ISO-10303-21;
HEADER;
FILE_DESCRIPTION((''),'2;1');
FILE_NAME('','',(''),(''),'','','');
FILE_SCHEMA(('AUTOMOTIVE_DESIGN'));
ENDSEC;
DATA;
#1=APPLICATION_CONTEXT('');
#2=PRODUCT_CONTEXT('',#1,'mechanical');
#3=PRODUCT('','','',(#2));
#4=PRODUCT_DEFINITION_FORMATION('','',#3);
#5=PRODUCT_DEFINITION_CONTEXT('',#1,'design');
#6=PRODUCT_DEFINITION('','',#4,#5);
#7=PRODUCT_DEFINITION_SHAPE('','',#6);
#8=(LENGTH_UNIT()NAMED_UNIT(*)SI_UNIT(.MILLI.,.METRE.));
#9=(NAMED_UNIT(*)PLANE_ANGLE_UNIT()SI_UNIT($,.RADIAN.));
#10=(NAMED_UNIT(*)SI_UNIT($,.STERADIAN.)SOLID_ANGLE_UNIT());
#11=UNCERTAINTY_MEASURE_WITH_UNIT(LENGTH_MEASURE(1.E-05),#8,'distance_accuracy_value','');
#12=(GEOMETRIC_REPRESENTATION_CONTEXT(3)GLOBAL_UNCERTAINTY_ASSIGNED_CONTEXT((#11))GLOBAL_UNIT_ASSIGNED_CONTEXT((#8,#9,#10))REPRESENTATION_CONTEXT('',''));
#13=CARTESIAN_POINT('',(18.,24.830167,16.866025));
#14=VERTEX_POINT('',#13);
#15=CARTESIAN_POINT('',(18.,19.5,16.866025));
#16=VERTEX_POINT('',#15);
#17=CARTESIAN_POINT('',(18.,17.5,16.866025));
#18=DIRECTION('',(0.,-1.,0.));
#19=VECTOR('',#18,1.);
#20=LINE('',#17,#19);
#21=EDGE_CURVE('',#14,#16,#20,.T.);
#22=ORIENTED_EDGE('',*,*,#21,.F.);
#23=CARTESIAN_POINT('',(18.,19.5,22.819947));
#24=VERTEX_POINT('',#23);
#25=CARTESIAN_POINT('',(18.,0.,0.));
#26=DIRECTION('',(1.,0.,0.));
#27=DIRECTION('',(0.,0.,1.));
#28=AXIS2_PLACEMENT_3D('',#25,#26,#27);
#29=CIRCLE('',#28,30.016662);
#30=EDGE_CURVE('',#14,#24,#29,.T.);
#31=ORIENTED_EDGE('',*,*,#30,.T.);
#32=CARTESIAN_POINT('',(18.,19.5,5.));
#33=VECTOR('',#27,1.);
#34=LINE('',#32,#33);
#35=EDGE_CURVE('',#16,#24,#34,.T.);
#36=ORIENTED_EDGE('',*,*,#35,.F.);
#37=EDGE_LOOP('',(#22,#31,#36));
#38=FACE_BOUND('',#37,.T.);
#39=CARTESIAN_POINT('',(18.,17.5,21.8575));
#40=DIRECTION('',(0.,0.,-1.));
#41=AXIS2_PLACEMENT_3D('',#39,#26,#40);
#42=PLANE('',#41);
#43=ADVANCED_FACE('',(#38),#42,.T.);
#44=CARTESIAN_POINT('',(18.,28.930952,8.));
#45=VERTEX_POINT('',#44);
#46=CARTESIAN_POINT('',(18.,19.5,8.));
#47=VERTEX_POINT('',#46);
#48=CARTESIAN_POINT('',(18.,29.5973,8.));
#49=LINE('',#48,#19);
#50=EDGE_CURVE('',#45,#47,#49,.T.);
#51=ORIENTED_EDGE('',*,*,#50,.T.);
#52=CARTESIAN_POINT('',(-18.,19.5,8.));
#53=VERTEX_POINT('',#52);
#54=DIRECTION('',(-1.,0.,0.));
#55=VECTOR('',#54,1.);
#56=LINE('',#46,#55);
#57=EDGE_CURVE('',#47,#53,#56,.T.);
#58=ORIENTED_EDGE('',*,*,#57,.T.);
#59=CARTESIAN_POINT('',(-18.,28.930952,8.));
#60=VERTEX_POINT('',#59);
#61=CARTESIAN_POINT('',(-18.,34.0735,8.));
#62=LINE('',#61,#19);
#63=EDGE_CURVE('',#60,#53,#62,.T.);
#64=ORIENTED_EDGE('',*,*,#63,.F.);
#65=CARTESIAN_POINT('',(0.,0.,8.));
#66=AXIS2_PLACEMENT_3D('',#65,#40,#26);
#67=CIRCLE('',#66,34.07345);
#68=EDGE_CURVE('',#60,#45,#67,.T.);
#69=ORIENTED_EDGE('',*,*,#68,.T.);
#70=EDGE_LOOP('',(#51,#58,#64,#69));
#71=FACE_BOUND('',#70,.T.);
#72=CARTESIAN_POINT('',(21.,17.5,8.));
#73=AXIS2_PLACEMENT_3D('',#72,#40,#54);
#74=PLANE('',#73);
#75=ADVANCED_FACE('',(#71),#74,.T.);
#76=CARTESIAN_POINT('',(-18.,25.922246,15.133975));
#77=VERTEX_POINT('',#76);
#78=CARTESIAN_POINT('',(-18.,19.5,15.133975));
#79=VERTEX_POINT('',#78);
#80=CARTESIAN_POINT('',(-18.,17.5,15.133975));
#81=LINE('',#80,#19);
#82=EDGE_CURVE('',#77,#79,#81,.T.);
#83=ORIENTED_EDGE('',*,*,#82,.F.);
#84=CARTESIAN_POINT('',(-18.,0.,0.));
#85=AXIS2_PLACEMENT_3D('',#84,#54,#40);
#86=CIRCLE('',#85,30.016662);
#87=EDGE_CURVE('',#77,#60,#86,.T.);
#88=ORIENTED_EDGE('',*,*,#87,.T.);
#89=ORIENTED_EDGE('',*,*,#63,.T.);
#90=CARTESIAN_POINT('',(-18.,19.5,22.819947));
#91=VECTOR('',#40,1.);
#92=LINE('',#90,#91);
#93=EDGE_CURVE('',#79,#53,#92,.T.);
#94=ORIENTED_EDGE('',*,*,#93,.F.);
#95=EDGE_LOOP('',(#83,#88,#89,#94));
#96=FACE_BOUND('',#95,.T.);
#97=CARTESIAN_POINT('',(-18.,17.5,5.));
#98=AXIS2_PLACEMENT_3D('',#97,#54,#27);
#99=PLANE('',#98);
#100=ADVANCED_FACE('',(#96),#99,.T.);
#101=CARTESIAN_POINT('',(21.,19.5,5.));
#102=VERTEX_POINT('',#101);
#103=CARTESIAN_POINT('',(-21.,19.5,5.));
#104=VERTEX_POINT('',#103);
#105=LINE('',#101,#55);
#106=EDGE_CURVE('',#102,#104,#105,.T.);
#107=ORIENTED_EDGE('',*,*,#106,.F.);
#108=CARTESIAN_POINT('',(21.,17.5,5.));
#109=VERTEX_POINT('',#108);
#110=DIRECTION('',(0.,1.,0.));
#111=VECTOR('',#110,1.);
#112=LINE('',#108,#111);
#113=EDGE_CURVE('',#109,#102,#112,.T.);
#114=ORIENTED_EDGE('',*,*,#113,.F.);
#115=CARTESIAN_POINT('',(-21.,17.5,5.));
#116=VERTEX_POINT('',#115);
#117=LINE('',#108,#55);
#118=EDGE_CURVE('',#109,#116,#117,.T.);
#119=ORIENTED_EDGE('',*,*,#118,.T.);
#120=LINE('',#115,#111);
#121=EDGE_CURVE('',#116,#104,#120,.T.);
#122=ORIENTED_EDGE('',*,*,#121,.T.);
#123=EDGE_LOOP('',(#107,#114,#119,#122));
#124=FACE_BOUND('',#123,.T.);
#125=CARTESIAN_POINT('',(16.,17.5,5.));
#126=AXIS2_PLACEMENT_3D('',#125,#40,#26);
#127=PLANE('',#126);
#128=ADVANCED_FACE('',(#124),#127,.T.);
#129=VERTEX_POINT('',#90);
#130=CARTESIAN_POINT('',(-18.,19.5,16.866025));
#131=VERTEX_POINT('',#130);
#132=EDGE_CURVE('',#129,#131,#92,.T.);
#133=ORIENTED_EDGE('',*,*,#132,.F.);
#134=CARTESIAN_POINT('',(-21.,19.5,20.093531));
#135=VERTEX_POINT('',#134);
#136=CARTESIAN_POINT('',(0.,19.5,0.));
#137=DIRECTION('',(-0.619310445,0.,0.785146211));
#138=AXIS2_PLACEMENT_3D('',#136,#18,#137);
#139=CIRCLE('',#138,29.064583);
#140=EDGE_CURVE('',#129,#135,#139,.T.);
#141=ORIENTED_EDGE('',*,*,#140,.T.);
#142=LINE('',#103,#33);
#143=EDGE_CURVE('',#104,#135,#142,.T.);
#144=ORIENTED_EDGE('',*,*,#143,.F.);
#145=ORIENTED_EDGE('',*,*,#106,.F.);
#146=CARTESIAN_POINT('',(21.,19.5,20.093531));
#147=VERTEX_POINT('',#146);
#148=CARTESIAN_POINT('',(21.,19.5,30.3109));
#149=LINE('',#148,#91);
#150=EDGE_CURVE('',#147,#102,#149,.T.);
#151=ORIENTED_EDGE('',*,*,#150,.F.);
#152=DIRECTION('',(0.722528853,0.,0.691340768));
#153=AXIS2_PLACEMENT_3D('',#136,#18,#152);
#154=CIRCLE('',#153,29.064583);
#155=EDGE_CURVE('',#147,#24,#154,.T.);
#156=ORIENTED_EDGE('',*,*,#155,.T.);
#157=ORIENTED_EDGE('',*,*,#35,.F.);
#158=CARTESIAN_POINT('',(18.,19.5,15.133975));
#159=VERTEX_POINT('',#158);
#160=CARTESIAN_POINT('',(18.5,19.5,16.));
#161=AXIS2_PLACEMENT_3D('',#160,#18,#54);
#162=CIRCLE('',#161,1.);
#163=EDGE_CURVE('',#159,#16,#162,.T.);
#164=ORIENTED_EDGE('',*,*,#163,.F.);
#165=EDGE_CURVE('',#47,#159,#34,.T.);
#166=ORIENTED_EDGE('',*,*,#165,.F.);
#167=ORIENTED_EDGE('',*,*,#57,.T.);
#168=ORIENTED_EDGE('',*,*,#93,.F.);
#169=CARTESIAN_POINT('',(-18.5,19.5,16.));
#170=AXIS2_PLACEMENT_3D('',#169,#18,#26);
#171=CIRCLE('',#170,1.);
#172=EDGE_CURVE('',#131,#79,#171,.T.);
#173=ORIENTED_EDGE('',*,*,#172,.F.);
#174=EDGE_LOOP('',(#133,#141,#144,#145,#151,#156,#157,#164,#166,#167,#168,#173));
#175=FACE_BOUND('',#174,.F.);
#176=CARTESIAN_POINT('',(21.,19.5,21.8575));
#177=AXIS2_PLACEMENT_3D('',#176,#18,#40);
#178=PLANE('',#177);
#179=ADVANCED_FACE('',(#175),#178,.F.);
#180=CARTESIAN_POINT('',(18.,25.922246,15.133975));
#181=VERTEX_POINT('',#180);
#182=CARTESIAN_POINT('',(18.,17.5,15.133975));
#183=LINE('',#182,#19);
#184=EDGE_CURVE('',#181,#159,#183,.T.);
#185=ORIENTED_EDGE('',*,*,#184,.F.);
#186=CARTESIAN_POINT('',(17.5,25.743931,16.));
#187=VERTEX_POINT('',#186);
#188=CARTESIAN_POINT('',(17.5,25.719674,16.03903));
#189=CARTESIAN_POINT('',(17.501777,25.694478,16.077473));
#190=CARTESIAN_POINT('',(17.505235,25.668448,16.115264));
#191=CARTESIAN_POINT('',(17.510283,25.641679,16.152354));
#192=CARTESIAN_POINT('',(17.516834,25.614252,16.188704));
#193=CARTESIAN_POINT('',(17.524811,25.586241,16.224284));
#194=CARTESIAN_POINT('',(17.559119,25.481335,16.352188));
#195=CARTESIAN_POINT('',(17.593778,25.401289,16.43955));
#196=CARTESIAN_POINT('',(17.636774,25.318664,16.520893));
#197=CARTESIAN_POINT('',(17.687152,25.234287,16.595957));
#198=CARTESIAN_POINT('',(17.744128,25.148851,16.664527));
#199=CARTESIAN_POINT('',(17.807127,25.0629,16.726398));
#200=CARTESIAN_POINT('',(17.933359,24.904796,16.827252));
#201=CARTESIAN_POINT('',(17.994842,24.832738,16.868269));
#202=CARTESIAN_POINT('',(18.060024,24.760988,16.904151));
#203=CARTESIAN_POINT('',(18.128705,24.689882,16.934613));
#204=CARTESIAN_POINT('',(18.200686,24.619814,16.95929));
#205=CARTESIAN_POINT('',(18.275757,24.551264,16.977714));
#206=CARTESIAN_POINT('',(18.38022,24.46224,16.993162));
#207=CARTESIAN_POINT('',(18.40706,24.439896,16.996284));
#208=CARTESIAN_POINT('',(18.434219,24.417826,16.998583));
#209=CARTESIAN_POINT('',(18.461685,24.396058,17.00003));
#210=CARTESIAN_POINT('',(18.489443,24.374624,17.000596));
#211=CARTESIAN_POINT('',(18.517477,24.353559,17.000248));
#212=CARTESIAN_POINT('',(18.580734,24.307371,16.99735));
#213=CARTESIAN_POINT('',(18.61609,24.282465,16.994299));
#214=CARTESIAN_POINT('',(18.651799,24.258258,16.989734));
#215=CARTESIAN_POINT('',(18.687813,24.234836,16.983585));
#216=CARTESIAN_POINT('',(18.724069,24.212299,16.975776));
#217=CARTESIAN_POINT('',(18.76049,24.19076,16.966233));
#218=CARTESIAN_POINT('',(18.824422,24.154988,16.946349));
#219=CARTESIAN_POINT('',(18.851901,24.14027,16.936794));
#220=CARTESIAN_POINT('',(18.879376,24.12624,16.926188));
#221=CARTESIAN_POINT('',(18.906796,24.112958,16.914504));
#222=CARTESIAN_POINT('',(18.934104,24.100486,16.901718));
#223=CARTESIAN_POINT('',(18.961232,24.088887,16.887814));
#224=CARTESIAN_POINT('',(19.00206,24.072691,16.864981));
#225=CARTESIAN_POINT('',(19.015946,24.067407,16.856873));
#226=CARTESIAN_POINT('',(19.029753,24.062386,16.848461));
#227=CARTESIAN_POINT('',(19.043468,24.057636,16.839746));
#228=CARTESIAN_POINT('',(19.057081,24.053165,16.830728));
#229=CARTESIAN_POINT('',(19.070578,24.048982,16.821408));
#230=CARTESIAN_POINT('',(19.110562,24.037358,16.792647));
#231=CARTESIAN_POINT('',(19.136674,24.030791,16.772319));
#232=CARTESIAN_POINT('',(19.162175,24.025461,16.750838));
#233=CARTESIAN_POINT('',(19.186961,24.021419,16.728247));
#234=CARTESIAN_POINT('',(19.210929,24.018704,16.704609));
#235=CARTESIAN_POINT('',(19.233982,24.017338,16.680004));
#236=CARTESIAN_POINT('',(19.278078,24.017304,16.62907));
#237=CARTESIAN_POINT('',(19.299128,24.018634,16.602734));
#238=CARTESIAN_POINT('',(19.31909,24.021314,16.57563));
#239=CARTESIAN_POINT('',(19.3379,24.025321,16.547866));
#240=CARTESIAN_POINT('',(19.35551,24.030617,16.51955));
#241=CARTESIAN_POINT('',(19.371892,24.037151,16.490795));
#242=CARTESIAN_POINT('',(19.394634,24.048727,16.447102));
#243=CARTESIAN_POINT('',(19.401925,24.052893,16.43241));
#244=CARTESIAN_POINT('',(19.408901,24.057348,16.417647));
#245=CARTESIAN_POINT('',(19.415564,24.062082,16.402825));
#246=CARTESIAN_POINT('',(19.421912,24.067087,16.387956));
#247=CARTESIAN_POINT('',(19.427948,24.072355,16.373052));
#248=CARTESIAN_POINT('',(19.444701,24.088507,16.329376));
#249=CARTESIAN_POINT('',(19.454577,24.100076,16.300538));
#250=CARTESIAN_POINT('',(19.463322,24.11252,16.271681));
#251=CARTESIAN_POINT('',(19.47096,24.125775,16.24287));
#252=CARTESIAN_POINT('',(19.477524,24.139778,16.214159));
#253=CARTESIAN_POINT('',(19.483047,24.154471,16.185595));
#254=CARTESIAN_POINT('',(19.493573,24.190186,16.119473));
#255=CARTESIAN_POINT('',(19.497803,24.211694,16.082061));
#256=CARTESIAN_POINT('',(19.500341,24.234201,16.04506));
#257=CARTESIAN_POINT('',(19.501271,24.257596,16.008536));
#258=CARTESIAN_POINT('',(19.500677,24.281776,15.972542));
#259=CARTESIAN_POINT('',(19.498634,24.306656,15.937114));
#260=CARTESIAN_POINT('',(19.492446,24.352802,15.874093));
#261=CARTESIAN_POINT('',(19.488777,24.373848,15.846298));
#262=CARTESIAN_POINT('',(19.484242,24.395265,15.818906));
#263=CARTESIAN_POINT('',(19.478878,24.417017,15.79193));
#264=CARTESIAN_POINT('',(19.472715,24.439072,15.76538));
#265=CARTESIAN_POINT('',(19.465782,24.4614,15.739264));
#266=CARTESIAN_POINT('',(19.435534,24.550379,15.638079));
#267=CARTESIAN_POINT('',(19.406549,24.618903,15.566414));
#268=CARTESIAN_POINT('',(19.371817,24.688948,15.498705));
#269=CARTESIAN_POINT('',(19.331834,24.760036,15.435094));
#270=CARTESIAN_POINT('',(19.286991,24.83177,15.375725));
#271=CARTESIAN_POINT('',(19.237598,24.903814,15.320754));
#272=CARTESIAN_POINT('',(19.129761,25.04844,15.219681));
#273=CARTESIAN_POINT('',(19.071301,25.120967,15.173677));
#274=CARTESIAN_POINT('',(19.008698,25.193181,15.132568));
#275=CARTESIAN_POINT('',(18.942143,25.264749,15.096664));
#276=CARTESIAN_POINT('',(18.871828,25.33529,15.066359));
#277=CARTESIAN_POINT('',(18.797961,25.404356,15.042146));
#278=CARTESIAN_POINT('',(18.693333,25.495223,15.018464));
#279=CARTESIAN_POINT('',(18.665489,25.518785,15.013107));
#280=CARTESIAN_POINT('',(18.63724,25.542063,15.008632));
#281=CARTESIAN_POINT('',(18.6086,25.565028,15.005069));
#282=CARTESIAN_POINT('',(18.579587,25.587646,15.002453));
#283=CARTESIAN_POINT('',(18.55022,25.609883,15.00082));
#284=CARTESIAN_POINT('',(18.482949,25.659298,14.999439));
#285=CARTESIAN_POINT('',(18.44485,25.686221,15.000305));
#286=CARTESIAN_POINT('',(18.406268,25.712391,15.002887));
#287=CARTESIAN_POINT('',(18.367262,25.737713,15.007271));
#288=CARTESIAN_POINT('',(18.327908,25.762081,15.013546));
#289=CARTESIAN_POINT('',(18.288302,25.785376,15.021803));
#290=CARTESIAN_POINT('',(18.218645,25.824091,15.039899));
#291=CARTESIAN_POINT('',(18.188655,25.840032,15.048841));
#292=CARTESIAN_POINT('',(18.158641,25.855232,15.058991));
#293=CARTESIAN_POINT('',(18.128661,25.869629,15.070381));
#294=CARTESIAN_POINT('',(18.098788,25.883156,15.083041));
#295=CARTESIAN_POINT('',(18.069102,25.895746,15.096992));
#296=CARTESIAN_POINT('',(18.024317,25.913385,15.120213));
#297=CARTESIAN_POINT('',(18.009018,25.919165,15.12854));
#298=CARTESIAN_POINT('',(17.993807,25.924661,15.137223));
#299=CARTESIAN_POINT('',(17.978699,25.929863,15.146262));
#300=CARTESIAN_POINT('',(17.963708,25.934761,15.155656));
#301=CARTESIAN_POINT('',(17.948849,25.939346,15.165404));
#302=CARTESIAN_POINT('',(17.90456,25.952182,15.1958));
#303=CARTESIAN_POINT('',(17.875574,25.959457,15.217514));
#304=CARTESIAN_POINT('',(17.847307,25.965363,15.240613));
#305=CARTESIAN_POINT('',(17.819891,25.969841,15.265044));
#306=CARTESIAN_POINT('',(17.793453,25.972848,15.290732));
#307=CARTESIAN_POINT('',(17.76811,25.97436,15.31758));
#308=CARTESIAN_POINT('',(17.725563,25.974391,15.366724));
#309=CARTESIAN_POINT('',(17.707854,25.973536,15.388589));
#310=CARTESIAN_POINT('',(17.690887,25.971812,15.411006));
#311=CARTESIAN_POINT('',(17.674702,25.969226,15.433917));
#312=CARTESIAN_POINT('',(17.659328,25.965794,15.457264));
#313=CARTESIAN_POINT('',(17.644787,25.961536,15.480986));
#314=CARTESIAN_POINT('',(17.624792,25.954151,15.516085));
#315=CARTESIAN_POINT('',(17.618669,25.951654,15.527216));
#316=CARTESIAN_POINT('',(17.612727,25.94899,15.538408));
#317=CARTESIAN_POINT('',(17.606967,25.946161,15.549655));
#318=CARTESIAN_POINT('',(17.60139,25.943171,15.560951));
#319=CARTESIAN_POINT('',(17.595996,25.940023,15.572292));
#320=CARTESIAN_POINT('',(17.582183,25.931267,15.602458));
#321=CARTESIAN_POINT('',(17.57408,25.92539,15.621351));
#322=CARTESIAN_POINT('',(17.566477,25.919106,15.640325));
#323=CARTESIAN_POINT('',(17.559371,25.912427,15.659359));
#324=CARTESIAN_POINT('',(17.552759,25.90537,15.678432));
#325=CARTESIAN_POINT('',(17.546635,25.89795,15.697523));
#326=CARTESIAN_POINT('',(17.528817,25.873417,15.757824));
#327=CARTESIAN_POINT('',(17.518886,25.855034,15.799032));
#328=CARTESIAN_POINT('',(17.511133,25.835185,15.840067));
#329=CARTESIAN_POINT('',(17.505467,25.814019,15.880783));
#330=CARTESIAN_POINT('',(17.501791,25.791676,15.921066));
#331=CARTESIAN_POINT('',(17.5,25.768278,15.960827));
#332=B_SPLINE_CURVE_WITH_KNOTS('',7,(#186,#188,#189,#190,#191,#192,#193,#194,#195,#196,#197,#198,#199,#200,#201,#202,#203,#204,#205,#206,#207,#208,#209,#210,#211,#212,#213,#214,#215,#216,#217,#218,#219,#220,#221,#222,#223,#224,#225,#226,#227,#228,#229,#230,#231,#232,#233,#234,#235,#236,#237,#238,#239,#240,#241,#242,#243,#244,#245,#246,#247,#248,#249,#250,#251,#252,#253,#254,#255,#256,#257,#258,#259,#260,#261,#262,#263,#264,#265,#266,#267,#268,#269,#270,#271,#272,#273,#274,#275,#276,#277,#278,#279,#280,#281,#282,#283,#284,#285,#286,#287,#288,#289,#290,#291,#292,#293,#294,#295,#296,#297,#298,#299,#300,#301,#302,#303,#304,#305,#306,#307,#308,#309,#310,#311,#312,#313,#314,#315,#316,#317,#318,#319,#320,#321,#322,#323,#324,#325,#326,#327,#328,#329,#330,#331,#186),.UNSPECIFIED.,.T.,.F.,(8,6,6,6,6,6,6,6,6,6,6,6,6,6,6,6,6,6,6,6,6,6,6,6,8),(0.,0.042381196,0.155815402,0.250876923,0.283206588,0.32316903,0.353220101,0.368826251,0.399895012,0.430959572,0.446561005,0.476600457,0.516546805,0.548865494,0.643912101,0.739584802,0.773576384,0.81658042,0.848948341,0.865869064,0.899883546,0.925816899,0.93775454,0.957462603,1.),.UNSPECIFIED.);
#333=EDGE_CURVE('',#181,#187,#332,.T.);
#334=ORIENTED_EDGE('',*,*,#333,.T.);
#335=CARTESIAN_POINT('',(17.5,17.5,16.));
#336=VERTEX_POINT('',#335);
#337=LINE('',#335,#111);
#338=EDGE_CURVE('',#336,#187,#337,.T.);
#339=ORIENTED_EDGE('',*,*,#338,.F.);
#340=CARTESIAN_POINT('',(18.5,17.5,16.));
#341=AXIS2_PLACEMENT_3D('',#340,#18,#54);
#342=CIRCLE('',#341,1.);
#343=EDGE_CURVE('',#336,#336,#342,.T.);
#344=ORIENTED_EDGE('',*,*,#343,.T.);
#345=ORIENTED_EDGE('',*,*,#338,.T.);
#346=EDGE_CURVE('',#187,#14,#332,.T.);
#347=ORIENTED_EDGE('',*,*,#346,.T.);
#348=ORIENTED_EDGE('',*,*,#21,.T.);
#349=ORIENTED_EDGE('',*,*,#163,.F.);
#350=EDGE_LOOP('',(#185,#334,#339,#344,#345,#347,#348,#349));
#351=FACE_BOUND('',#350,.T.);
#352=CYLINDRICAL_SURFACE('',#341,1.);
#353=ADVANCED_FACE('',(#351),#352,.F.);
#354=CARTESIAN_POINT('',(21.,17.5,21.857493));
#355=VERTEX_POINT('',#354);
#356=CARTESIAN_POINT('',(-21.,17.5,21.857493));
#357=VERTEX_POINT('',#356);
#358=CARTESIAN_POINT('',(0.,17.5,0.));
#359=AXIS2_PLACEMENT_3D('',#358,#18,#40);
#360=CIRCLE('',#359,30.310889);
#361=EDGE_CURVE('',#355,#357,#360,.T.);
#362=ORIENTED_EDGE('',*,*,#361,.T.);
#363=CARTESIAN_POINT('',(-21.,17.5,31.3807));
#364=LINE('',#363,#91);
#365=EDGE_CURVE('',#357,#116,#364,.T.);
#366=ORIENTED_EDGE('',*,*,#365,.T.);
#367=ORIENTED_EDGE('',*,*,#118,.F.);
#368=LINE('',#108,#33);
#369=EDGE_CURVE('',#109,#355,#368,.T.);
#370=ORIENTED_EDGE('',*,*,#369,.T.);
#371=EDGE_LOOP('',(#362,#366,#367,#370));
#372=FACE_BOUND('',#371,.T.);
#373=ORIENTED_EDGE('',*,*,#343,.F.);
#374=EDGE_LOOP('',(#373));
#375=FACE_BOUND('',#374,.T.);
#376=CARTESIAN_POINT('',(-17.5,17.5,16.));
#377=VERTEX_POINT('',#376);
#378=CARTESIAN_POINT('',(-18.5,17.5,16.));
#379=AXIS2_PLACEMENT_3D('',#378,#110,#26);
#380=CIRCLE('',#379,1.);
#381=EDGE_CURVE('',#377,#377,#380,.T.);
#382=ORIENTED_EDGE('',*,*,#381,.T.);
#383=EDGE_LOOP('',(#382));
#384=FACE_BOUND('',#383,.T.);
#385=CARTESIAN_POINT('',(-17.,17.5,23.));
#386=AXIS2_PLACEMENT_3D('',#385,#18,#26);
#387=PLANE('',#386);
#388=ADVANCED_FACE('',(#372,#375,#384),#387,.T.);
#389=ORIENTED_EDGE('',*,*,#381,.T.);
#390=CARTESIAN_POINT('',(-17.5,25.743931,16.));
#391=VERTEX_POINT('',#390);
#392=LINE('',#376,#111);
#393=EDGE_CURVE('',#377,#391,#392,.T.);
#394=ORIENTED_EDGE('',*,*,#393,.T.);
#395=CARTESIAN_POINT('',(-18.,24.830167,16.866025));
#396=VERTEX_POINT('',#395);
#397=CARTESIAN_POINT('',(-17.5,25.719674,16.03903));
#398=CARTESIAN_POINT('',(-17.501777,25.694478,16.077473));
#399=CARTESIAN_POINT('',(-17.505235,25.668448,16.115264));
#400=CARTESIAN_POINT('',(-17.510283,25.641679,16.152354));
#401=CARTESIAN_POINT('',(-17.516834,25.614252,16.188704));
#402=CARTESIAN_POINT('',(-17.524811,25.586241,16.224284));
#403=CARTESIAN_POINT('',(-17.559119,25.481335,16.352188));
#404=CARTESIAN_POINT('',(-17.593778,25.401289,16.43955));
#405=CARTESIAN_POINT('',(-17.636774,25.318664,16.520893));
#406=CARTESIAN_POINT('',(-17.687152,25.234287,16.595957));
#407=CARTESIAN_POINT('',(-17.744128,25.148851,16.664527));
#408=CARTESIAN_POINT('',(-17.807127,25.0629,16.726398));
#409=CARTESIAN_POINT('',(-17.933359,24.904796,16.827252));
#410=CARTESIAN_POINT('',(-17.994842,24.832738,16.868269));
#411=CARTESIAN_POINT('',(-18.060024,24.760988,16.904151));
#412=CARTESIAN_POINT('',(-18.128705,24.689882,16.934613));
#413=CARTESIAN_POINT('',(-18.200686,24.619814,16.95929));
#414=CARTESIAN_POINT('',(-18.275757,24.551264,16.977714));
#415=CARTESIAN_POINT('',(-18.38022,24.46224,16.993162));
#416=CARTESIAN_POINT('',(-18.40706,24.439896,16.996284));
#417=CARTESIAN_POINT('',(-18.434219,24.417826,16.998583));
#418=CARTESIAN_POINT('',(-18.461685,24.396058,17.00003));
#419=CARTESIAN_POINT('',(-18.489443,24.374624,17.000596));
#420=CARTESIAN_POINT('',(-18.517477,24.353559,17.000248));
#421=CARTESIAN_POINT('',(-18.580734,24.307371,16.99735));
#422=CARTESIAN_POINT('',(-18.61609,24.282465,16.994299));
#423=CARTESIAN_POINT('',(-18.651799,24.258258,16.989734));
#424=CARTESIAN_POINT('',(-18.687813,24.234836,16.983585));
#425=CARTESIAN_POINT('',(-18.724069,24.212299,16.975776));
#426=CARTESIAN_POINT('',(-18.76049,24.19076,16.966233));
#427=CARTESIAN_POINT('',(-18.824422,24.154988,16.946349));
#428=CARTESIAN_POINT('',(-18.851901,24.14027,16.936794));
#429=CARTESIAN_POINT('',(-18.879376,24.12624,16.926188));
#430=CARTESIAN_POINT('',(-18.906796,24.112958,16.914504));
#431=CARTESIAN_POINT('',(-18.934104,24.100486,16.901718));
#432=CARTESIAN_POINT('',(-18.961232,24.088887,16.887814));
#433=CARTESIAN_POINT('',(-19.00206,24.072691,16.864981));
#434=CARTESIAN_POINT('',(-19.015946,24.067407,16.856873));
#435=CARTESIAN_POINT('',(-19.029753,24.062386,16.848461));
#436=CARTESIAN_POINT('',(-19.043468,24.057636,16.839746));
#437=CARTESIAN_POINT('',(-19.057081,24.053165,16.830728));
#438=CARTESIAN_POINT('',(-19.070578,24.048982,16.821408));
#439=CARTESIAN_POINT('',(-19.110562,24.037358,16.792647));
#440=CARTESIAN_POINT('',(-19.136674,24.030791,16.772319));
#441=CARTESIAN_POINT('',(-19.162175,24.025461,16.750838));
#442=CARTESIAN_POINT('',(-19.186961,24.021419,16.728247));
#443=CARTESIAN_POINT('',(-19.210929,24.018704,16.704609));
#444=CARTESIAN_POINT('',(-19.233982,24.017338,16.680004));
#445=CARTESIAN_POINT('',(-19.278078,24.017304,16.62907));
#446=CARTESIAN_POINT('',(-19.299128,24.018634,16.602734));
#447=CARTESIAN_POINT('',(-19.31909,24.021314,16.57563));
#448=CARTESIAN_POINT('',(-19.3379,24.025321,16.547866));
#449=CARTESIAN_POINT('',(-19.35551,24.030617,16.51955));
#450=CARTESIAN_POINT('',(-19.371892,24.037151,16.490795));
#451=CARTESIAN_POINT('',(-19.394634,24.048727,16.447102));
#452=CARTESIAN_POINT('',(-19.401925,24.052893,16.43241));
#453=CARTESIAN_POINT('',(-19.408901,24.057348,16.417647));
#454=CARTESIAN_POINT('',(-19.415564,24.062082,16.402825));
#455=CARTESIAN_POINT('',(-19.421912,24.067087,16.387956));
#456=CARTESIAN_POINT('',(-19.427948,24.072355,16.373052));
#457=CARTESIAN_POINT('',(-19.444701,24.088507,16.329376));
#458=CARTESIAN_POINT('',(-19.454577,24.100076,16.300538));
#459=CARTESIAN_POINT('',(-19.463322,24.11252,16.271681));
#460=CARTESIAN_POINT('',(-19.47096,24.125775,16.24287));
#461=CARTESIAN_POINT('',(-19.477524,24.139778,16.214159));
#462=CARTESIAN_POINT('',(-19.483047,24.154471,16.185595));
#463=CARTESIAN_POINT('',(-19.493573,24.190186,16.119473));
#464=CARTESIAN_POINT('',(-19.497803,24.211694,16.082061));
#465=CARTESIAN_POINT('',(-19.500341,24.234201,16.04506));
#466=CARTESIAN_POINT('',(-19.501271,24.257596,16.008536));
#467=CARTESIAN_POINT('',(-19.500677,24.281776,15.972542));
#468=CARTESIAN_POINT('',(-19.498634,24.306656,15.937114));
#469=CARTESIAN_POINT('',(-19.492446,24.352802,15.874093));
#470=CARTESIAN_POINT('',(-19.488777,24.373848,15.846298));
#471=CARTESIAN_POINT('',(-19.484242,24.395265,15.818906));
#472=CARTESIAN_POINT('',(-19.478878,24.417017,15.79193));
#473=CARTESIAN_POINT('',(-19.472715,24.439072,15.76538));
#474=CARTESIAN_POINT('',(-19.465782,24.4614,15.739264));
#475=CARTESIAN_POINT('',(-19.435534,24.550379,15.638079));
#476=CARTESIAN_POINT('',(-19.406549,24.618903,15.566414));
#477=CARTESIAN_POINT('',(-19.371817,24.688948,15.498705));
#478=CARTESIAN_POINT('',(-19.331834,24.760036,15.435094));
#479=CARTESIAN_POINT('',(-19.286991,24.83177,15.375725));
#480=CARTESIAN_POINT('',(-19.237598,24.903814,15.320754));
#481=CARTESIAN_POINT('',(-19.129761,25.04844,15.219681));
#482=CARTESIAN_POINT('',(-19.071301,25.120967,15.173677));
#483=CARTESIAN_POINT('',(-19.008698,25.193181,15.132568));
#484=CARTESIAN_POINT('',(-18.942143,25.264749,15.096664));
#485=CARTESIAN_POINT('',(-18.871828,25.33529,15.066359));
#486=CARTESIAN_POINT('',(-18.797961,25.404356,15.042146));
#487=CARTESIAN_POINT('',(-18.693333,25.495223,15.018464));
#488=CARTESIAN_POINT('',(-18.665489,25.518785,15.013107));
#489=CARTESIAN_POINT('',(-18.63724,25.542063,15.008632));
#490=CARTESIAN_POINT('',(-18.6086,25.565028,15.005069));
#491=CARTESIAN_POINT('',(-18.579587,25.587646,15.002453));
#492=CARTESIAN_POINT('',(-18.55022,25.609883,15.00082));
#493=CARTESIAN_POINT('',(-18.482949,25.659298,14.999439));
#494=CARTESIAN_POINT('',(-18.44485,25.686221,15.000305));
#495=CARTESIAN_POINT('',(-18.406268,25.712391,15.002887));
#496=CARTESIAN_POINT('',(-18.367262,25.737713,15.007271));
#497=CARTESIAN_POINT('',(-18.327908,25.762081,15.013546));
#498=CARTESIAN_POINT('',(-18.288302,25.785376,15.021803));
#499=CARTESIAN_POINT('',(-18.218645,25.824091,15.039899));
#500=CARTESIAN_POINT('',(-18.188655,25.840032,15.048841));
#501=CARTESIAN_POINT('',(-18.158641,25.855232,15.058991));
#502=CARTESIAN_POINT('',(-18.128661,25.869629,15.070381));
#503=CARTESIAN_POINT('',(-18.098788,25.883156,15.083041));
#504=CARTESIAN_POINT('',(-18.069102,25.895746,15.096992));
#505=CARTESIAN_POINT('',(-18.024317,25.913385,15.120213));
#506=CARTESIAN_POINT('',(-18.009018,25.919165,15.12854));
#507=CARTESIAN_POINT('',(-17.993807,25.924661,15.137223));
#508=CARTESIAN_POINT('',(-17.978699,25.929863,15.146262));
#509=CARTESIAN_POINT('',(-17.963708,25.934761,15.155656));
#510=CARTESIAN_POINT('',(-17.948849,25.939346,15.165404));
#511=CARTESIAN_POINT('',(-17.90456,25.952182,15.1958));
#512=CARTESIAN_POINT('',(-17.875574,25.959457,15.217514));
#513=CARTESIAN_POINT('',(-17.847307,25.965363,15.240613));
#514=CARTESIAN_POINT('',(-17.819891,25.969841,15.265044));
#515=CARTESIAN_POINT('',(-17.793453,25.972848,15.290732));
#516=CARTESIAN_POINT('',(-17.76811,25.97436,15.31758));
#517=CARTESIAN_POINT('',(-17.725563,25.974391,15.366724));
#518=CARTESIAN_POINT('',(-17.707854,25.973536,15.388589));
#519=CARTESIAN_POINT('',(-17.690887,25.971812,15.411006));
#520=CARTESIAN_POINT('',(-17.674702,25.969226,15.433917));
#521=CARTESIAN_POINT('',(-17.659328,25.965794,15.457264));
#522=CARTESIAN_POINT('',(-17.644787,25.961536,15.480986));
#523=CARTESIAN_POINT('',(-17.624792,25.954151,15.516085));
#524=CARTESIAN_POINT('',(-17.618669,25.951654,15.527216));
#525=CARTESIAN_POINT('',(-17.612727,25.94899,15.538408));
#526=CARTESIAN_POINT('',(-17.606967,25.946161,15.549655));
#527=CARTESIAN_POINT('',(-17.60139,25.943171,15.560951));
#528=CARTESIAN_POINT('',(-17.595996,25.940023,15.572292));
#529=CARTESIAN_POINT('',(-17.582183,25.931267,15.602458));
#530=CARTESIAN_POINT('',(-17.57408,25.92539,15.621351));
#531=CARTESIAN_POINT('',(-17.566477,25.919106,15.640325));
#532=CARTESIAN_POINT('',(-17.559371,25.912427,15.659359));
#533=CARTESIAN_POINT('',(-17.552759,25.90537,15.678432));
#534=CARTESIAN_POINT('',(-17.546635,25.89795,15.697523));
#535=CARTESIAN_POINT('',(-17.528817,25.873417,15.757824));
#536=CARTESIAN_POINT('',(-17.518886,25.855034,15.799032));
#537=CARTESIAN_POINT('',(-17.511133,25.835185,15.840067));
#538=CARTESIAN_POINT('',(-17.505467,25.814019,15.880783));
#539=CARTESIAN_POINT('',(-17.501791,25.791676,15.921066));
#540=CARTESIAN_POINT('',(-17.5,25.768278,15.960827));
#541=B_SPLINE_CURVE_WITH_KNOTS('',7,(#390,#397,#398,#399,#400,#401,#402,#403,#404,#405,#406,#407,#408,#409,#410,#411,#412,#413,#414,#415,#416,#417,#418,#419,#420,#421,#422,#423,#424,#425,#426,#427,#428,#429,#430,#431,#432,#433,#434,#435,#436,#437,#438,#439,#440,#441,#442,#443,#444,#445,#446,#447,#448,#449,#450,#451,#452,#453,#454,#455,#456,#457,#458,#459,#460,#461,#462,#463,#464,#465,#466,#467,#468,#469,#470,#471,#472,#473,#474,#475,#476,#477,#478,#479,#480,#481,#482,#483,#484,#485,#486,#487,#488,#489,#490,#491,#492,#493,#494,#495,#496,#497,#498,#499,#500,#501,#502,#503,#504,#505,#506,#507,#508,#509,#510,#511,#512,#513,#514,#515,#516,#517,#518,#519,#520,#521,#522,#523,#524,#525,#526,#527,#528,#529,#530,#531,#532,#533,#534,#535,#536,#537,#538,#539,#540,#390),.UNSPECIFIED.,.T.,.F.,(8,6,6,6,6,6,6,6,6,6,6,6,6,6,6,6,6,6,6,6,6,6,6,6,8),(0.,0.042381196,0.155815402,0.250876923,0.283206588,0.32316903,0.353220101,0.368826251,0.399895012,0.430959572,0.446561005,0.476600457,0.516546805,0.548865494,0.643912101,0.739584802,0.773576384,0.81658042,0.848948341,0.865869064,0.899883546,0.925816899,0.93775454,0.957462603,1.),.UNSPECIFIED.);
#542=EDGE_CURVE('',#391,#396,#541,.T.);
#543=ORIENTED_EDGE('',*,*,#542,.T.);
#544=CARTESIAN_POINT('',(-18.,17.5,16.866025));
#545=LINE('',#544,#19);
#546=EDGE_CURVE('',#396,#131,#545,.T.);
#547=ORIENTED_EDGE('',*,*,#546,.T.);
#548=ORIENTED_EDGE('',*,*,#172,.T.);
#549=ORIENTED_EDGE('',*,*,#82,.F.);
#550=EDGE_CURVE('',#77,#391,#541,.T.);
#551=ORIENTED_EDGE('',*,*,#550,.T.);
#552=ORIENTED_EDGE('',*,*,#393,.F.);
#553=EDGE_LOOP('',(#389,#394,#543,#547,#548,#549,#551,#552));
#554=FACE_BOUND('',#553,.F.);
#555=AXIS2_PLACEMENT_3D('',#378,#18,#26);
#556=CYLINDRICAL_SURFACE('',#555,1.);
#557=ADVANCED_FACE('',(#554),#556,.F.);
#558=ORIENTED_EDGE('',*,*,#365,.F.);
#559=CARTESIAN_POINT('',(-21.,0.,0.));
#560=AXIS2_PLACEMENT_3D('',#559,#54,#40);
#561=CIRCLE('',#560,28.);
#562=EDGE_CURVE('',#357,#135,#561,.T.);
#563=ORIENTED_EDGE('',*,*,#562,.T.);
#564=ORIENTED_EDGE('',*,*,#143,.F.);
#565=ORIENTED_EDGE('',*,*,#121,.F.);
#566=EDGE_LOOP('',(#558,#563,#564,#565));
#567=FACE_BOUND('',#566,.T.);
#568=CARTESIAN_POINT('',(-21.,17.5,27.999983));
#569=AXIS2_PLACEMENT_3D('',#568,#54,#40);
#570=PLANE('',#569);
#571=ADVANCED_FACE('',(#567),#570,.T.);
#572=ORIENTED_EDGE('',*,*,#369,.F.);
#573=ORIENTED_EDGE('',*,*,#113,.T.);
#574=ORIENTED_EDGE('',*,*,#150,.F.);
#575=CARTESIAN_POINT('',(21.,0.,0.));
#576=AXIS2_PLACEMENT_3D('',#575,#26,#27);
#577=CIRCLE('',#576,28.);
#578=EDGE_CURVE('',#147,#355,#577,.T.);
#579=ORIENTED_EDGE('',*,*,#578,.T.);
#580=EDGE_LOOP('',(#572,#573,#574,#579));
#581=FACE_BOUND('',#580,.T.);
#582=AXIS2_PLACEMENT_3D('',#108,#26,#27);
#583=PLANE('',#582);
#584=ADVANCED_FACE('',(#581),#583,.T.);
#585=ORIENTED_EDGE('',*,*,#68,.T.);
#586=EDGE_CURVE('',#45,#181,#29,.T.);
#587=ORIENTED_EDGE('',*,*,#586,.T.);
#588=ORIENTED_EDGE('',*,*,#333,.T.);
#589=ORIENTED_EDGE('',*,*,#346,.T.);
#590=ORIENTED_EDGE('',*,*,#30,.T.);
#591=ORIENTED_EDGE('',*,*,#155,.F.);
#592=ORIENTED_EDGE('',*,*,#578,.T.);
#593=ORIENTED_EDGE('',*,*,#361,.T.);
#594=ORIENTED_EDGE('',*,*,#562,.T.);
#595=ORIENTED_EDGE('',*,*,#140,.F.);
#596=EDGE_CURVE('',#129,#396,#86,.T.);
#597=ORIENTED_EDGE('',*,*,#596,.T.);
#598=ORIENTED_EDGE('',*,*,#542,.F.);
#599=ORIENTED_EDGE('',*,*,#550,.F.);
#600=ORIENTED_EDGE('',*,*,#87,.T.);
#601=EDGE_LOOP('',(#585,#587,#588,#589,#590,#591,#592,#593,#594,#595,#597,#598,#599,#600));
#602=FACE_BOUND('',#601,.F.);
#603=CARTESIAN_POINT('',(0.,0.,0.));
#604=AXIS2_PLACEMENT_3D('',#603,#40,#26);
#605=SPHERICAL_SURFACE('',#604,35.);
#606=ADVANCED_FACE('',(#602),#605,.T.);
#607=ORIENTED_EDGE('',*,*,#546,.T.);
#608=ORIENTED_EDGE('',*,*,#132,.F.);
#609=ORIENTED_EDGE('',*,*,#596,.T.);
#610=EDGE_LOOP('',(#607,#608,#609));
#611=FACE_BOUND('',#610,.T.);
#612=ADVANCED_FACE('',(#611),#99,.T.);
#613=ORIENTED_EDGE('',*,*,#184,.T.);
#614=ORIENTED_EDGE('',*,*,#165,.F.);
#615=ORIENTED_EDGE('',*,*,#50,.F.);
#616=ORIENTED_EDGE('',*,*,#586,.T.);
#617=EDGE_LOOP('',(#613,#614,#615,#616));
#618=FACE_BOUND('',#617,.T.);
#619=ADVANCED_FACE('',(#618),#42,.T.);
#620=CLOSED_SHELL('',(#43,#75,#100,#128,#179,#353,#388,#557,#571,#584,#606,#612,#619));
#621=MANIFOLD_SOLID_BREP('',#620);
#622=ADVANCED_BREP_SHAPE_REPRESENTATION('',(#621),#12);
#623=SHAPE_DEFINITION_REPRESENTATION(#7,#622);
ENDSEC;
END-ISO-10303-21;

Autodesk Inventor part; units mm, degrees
ref_plane "YZ Plane" through (0, 0, 0) normal (1, 0, 0) x (0, 1, 0)
ref_plane "XZ Plane" through (0, 0, 0) normal (0, 1, 0) x (-1, 0, 0)
ref_plane "XY Plane" through (0, 0, 0) normal (0, 0, 1) x (1, 0, 0)
sketch "スケッチ1" plane through (0, 0, 0) normal (0, 1, 0) x (-1, 0, 0)
  circle A0 centre (0, 0) radius 35
  line L0 (0, 0) -> (0, -35)
  line L1 (0, 0) -> (0, 35)
  dimension "d0" = 70
revolve "回転1" add sketch "スケッチ1" angle 180 about axis through (0, 0, 0) along (0, 0, 1) picked at (-2.5961, -23.0408) contours L1 L0 A0
sketch "スケッチ5" plane through (0, 0, 0) normal (0, -1, 0) x (1, 0, 0)
  line L0 (-20, -22) -> (20, -22)
  line L1 (20, -22) -> (20, -13)
  line L2 (20, -13) -> (-20, -13)
  line L3 (-20, -13) -> (-20, -22)
  line L4 (-20, -15) -> (-20, -13)
  line L5 (0, 25) -> (-17, 25)
  line L6 (-17, 25) -> (-17, 23)
  line L7 (-17, 23) -> (0, 23)
  line L8 (0, 23) -> (0, 25)
  line L9 (0, 20) -> (-20, 20)
  line L10 (-20, 20) -> (-20, 19)
  line L11 (-20, 19) -> (0, 19)
  line L12 (0, 19) -> (0, 20)
  line L13 (0, 13) -> (-19, 13)
  line L14 (-19, 13) -> (-19, 11)
  line L15 (-19, 11) -> (0, 11)
  line L16 (0, 11) -> (0, 13)
  line L17 (0, 5) -> (-23, 5)
  line L18 (-23, 5) -> (-23, 3)
  line L19 (-23, 3) -> (0, 3)
  line L20 (0, 3) -> (0, 5)
  circle A0 centre (0, 0) radius 35 projected
  circle A1 centre (0, 0) radius 35 projected
  line L21 (0, 35) -> (0, -35)
  line L22 (35, 0) -> (-35, 0)
  line L23 (-32, 2) -> (-23, 2)
  line L24 (-23, 2) -> (-23, -8)
  line L25 (-23, -8) -> (-32, -8)
  line L26 (-32, -8) -> (-32, 2)
  line L27 (-23, -8.0262) -> (-23, 2)
  line L28 (-27, 22.2711) -> (-27, -22.2711)
  line L29 (-15.5, 25) -> (0, 25)
  line L30 (0, 25) -> (0, 35)
  line L31 (0, 35) -> (-15.5, 35)
  line L32 (-15.5, 35) -> (-15.5, 25)
  line L33 (-15.5, 23) -> (0, 23)
  line L34 (0, 23) -> (0, 20)
  line L35 (0, 20) -> (-15.5, 20)
  line L36 (-15.5, 20) -> (-15.5, 23)
  line L37 (-16, 13) -> (0, 13)
  line L38 (0, 13) -> (0, 19)
  line L39 (0, 19) -> (-16, 19)
  line L40 (-16, 19) -> (-16, 13)
  line L41 (-16, 11) -> (0, 11)
  line L42 (0, 11) -> (0, 5)
  line L43 (0, 5) -> (-16, 5)
  line L44 (-16, 5) -> (-16, 11)
  line L45 (-23, -3) -> (-39.6865, -3)
  line L46 (-23, -3) -> (-7.8337, -3)
  line L47 (-8, 3) -> (-23, 3)
  line L48 (-23, 3) -> (-23, -9)
  line L49 (-23, -9) -> (-8, -9)
  line L50 (-8, -9) -> (-8, 3)
  line L51 (-8, 3) -> (-23, -9) construction
  line L52 (-23, 3) -> (-8, -9) construction
  line L53 (-23, 4) -> (-33, 4)
  line L54 (-33, 4) -> (-33, -10)
  line L55 (-33, -10) -> (-23, -10)
  line L56 (-23, -10) -> (-23, 4)
  line L57 (-23, 4) -> (-33, -10) construction
  line L58 (-33, 4) -> (-23, -10) construction
  line L59 (-8, 3) -> (-1, 3)
  line L60 (-1, 3) -> (-1, -9)
  line L61 (-1, -9) -> (-8, -9)
  line L62 (-8, -9) -> (-8, 3)
  line L63 (-8, 3) -> (-1, -9) construction
  line L64 (-1, 3) -> (-8, -9) construction
  line L65 (-23, 2) -> (-27, 2)
  line L66 (-23, -8) -> (-27, -8)
  line L67 (-23, 4) -> (-27, 4)
  line L68 (-23, -10) -> (-27, -10)
  line L69 (23.4307, -26) -> (-23.4307, -26)
  line L70 (-8, 3) -> (-6.8, 3)
  line L71 (-6.8, 3) -> (-6.8, -9)
  line L72 (-6.8, -9) -> (-8, -9)
  line L73 (-8, -9) -> (-8, 3)
  line L74 (-3, 5) -> (0, 5)
  line L75 (0, 20) -> (-4, 20)
  line L76 (-4, 19) -> (0, 19)
  line L77 (0, 19) -> (0, 20)
  line L78 (-6, 5) -> (-1, 5)
  line L79 (-1, 3) -> (-6, 3)
  point P0 (0, -22)
  point P1 (0, -13)
  point P2 (0, 24)
  point P3 (0, 19.5)
  point P4 (0, 12)
  point P5 (0, 4)
  point P6 (-20, -17.5)
  point P7 (-27, -0.5262)
  point P8 (-27, -8)
  point P9 (-15.5, 21.5)
  point P10 (-15.5, 31.3807)
  point P11 (0, 25)
  point P12 (0, 23)
  point P13 (0, 11)
  point P14 (0, 13)
  point P15 (-27, 0)
  point P16 (-32, 0)
  point P17 (-23, 0)
  point P18 (-15.5, -3)
  point P19 (-28, -3)
  point P20 (-4.5, -3)
  point P21 (-8, -9)
  point P22 (-8, 3)
  point P23 (-27, 0.5)
  point P24 (-28, 0.4738)
  point P25 (-28, -11.5262)
  point P26 (-27, -11.5)
  point P27 (-23, 2)
  point P28 (-23, 2)
  point P29 (-8, 0)
  point P30 (-1, 0)
  point P31 (0, 19)
  point P32 (0, 20)
  point P33 (-27, -10)
  point P34 (-27, 4)
  dimension "d12" = 40
  dimension "d13" = 9
  dimension "d23" = 17
  dimension "d24" = 2
  dimension "d27" = 20
  dimension "d28" = 1
  dimension "d30" = 19
  dimension "d31" = 2
  dimension "d33" = 2
  dimension "d88" = 0
  dimension "d89" = 0
  dimension "d90" = 13
  dimension "d92" = 20
  dimension "d93" = 10
  dimension "d97" = 9
  dimension "d98" = 10
  dimension "d113" = 27
  dimension "d122" = 15.5
  dimension "d123" = 35
  dimension "d124" = 3
  dimension "d125" = 15.5
  dimension "d126" = 6
  dimension "d127" = 6
  dimension "d128" = 16
  dimension "d129" = 16
  dimension "d147" = 12
  dimension "d149" = 8
  dimension "d151" = 15
  dimension "d161" = 14
  dimension "d162" = 10
  dimension "d164" = 12
  dimension "d165" = 7
  dimension "d170" = 26
  dimension "d175" = 1.2
  dimension "d207" = 0
extrude "GNSボード" cut sketch "スケッチ5" against normal blind 16 contours L8 L7 L6 L5
extrude "GNSボード止めるよう" cut sketch "スケッチ5" against normal blind 15 contours L21 L5 L32 A0 | L21 L9 L36 L7
extrude "アルミ板１" cut sketch "スケッチ5" against normal blind 17.5 contours L11 L10 L9 L12
extrude "メイン基板" cut sketch "スケッチ5" against normal blind 17.5 contours L15 L14 L13 L16
extrude "メイン止めるよう" cut sketch "スケッチ5" against normal blind 16.5 contours L17 L44 L15 L21 | L13 L40 L11 L21
extrude "アルミ板２" cut sketch "スケッチ5" against normal blind 19.5 contours L19 L18 L17 L20
extrude "電池ボックス入れ" cut sketch "スケッチ5" against normal blind 15 contours L3 L2 L21 L0 | L21 L2 L1 L0
extrude "side ut" cut sketch "スケッチ5" against normal blind 100 contours A0 L45 L54 L55 L28 | A0 L22 L54 L45 | L55 L54 L45 L26 L25 L28 | A0 L28 L53 L54 L22 | L54 L22 L26 L45 | L25 L26 L45 L28 | L54 L53 L28 L23 L26 L22 | L26 L22 L28 L45 | L22 L26 L23 L28
extrude "motor case" add sketch "スケッチ5" against normal blind 7 contours L55 L54 L45 L26 L25 L28 | L28 L25 L27 L48 L56 L55 | L50 L46 L24 L22 | L22 L24 L48 L19 L50 | L54 L22 L26 L45 | L28 L45 L24 L25 | L25 L26 L45 L28 | L24 L45 L28 L22 | L22 L28 L23 L24 | L50 L49 L48 L27 L24 L46 | L54 L53 L28 L23 L26 L22 | L26 L22 L28 L45 | L53 L18 L48 L23 L28 | L22 L26 L23 L28
extrude "bottom cut" cut sketch "スケッチ5" against normal blind 90 contours L69 A0 L21 | L21 A0 L69
extrude "motor" cut sketch "スケッチ5" against normal blind 6 contours L60 L61 L71 L22 | L22 L71 L19 L60 | L71 L61 L50 L22 | L22 L50 L19 L71 | L50 L46 L24 L22 | L22 L24 L48 L19 L50 | L28 L45 L24 L25 | L25 L26 L45 L28 | L24 L45 L28 L22 | L22 L28 L23 L24 | L50 L49 L48 L27 L24 L46 | L26 L22 L28 L45 | L22 L26 L23 L28
extrude "motor block" add sketch "スケッチ5" against normal blind 10 contours L71 L61 L50 L22 | L22 L50 L19 L71
sketch "スケッチ27" plane through (-33, 0, -10) normal (-1, 0, 0) x (0, 0, 1)
  line L0 (14, 0) -> (0, 0) projected
  circle A0 centre (7, 0) radius 3
  point P0 (10, 0)
  dimension "d198" = 6
extrude "押し出し36" cut sketch "スケッチ27" against normal blind 27
mirror "ミラー13" about plane through (0, 0, 0) normal (1, 0, 0) of "メイン止めるよう", "メイン基板", "アルミ板１", "GNSボード止めるよう", "GNSボード", "アルミ板２", "motor", "motor case", "押し出し36", "電池ボックス入れ", "side ut"
ref_plane "作業平面5" through (-17, 17.5, 23) normal (0, -1, 0) x (1, 0, 0)
sketch "スケッチ29" plane through (-17, 17.5, 23) normal (0, -1, 0) x (1, 0, 0)
  line L0 (32.5, 2) -> (1.5, 2) projected
  line L1 (1.5, 0) -> (32.5, 0) projected
  line L2 (32.5, -3) -> (1.5, -3) projected
  line L3 (1, -4) -> (33, -4) projected
  line L4 (33, -10) -> (1, -10) projected
  line L5 (33, -10) -> (33, -4) projected
  line L6 (1, -4) -> (33, -4) projected
  line L7 (1, -10) -> (1, -4) projected
  line L8 (1, -12) -> (33, -12) projected
  line L9 (33, -18) -> (1, -18) projected
  line L10 (33, -18) -> (33, -12) projected
  line L11 (1, -12) -> (33, -12) projected
  line L12 (1, -18) -> (1, -12) projected
  line L13 (18, -20) -> (40, -20) projected
  line L14 (-6, -20) -> (17, -20) projected
  line L15 (17, -18) -> (-6, -18) projected
  line L16 (-16, -23) -> (-15, -23) projected
  line L17 (-15, -23) -> (-15, -21) projected
  line L18 (-15, -21) -> (-6, -21) projected
  line L19 (-6, -21) -> (-6, -18) projected
  line L20 (-6, -18) -> (1, -18) projected
  line L21 (1, -18) -> (1, -12) projected
  line L22 (1, -12) -> (-2, -12) projected
  line L23 (-2, -12) -> (-2, -10) projected
  line L24 (-2, -10) -> (1, -10) projected
  line L25 (1, -10) -> (1, -4) projected
  line L26 (1, -4) -> (-3, -4) projected
  line L27 (-3, -4) -> (-3, -3) projected
  line L28 (-3, -3) -> (1.5, -3) projected
  line L29 (1.5, -3) -> (1.5, 0) projected
  line L30 (1.5, 0) -> (0, 0) projected
  line L31 (0, 0) -> (0, 2) projected
  line L32 (0, 2) -> (1.5, 2) projected
  line L33 (1.5, 2) -> (1.5, 8.3807) projected
  arc A0 (1.5, 8.3807) -> (-10, -0.7289) centre (17, -23) ccw projected
  line L34 (-10, -0.7289) -> (-10, -19) projected
  line L35 (-10, -19) -> (-16, -19) projected
  line L36 (-16, -19) -> (-16, -23) projected
  line L37 (49, -23) -> (50, -23) projected
  line L38 (50, -19) -> (50, -23) projected
  line L39 (44, -19) -> (50, -19) projected
  line L40 (44, -19) -> (44, -0.7289) projected
  arc A1 (44, -0.7289) -> (32.5, 8.3807) centre (17, -23) ccw projected
  line L41 (32.5, 8.3807) -> (32.5, 2) projected
  line L42 (32.5, 2) -> (34, 2) projected
  line L43 (34, 2) -> (34, 0) projected
  line L44 (34, 0) -> (32.5, 0) projected
  line L45 (32.5, 0) -> (32.5, -3) projected
  line L46 (32.5, -3) -> (37, -3) projected
  line L47 (37, -3) -> (37, -4) projected
  line L48 (37, -4) -> (33, -4) projected
  line L49 (33, -4) -> (33, -10) projected
  line L50 (33, -10) -> (36, -10) projected
  line L51 (36, -10) -> (36, -12) projected
  line L52 (36, -12) -> (33, -12) projected
  line L53 (33, -12) -> (33, -18) projected
  line L54 (33, -18) -> (40, -18) projected
  line L55 (40, -18) -> (40, -21) projected
  line L56 (40, -21) -> (49, -21) projected
  line L57 (49, -21) -> (49, -23) projected
  line L58 (40, -18) -> (-6, -18) projected
  line L59 (-4, -18) -> (38, -18)
  line L60 (38, -18) -> (38, 8.3807)
  line L61 (38, 8.3807) -> (-4, 8.3807)
  line L62 (-4, 8.3807) -> (-4, -18)
  circle A2 centre (17, -23) radius 35
  point P0 (-10, -0.7289)
  point P1 (44, -0.7289)
  point P2 (-4, 5)
  point P3 (38, 5)
  point P4 (37, -3)
  point P5 (38, -18)
  point P6 (32.5, 8.3807)
  point P7 (32.5, 8.3807)
  point P8 (1.5, 8.3807)
  point P9 (1.5, 8.3807)
  dimension "d209" = 2
  dimension "d210" = 2
  dimension "d211" = 26.3807
  dimension "d212" = 70
extrude "押し出し38" cut sketch "スケッチ29" against normal blind 30 contours A1 L40 L39 L38 L37 L57 L56 L55 L54 L60 | L62 L15 L19 L18 L17 L16 L36 L35 L34 A0 | A2 L34 L35 L36 L16 L17 L18 L19 L15 L9 L54 L55 L56 L57 L37 L38 L39 L40
sketch "スケッチ30" plane through (-17, 17.5, 23) normal (0, -1, 0) x (1, 0, 0)
  circle A0 centre (17, -23) radius 50
  line L0 (17, 2) -> (0, 2) projected
  line L1 (0, 0) -> (17, 0) projected
  line L2 (-16, -23) -> (-15, -23) projected
  line L3 (-15, -23) -> (-15, -21) projected
  line L4 (-15, -21) -> (-6, -21) projected
  line L5 (-6, -21) -> (-6, -18) projected
  line L6 (-6, -18) -> (1, -18) projected
  line L7 (1, -18) -> (1, -12) projected
  line L8 (1, -12) -> (-2, -12) projected
  line L9 (-2, -12) -> (-2, -10) projected
  line L10 (-2, -10) -> (1, -10) projected
  line L11 (1, -10) -> (1, -4) projected
  line L12 (1, -4) -> (-3, -4) projected
  line L13 (-3, -4) -> (-3, -3) projected
  line L14 (-3, -3) -> (1.5, -3) projected
  line L15 (1.5, -3) -> (1.5, 0) projected
  line L16 (1.5, 0) -> (0, 0) projected
  line L17 (0, 0) -> (0, 2) projected
  line L18 (0, 2) -> (1.5, 2) projected
  line L19 (1.5, 2) -> (1.5, 8.3807) projected
  arc A1 (1.5, 8.3807) -> (-10, -0.7289) centre (17, -23) ccw projected
  line L20 (-10, -0.7289) -> (-10, -19) projected
  line L21 (-10, -19) -> (-16, -19) projected
  line L22 (-16, -19) -> (-16, -23) projected
  line L23 (-4, -18) -> (-4, -1.1425) projected
  dimension "d215" = 100
  dimension "d218" = 5
extrude "押し出し39" cut sketch "スケッチ30" along normal blind 100 contours A0 | L0 L17 L1 L15 L14 L13 L12 L11 L10 L9 L8 L7 L6 L5 L4 L3 L2 L22 L21 L20 A1 L19
sketch "スケッチ33" plane through (21, 17.5, 21.8575) normal (1, 0, 0) x (0, 0, -1)
  line L0 (16.8575, 0) -> (0, 0) projected
  line L1 (16.8575, 0) -> (16.8575, 10.05) projected
  line L2 (0, 0) -> (16.8575, 0)
  line L3 (16.8575, 0) -> (16.8575, 2)
  line L4 (0, 2) -> (0, 0)
  line L5 (16.8575, 17.141) -> (16.8575, 10.05) projected
  line L6 (0, 0) -> (-8.4534, 0) projected
  arc A0 (16.8575, 17.141) -> (-8.4534, 0) centre (21.8575, -17.5) ccw
  line L7 (-7.9835, 0) -> (0, 0)
  line L8 (16.8575, 2) -> (16.8575, 17.141)
  line L9 (16.8575, 0) -> (-8.4534, 0)
  line L10 (-8.4534, 0) -> (-8.4534, 2)
  line L11 (-8.4534, 2) -> (16.8575, 2)
  line L12 (16.8575, 2) -> (16.8575, 0)
  point P0 (21.8575, -17.5)
  point P1 (-7.2071, 2)
  point P2 (16.8575, 2)
  dimension "d236" = 2
extrude "押し出し42" cut sketch "スケッチ33" against normal blind 3 contours L11 A0 L5 L1
sketch "スケッチ34" plane through (21, 17.5, 5) normal (0, 0, -1) x (-1, 0, 0)
  line L0 (3, 12.0973) -> (3, 2) projected
  line L1 (3, 2) -> (42, 2)
  line L2 (42, 0) -> (42, 10.05) projected
  arc A0 (42, 10.05) -> (3, 12.0973) centre (21, -17.5) ccw projected
  arc A1 (42, 10.05) -> (3, 12.0973) centre (21, -17.5) ccw
  line L3 (3, 12.0973) -> (3, 2)
  line L4 (42, 10.05) -> (42, 2)
  point P0 (3, 0)
extrude "押し出し43" cut sketch "スケッチ34" against normal blind 3
sketch "スケッチ35" plane through (-21, 17.5, 5) normal (-1, 0, 0) x (0, 0, 1)
  line L0 (0, 0) -> (16.8575, 0) projected
  line L1 (0, 0) -> (16.8575, 0)
  line L2 (16.8575, 0) -> (16.8575, 2)
  line L3 (0, 2) -> (0, 0)
  line L4 (25.3109, 0) -> (16.8575, 0) projected
  line L5 (3, 11.431) -> (3, 16.5735) projected
  arc A0 (25.3109, 0) -> (3, 16.5735) centre (-5, -17.5) ccw
  arc A1 (25.3109, 0) -> (3, 16.5735) centre (-5, -17.5) ccw projected
  line L6 (25.3109, 0) -> (16.8575, 0)
  line L7 (3, 16.5735) -> (3, 2)
  line L8 (0, 0) -> (40.4212, 0)
  line L9 (40.4212, 0) -> (40.4212, 2)
  line L10 (40.4212, 2) -> (0, 2)
  line L11 (0, 2) -> (0, 0)
  point P0 (19.3875, 0)
  point P1 (3, 12.0296)
  point P2 (24.0646, 2)
extrude "押し出し44" cut sketch "スケッチ35" against normal blind 3 contours L10 L7 L5 A0
sketch "スケッチ36" plane through (0, 17.5, 0) normal (0, -1, 0) x (1, 0, 0)
  line L0 (-16, 19) -> (-16, 13) projected
  line L1 (-20, 19) -> (0, 19) projected
  line L2 (0, 13) -> (-19, 13) projected
  line L3 (-21, 8) -> (-21, 5) projected
  line L4 (-16, 19) -> (-21, 19)
  line L5 (-21, 19) -> (-21, 13)
  line L6 (-21, 13) -> (-16, 13)
  line L7 (-16, 13) -> (-16, 19)
  line L8 (-16, 19) -> (-21, 13)
  line L9 (-16, 13) -> (-21, 19)
  circle A0 centre (-18.5, 16) radius 1
  line L10 (-21, 8) -> (18, 8) projected
  line L11 (0, 35) -> (0, -35) projected
  point P0 (0, 0)
  point P1 (-21, 20.0935)
  point P2 (-18, 8)
  dimension "d232" = 2
  dimension "d233" = 8
extrude "押し出し45" cut sketch "スケッチ36" against normal blind 100 contours A0 L9 L8 | L8 L9 A0 | A0 L8 L9 | L8 A0 L9
mirror "ミラー14" about plane through (0, 0, 0) normal (1, 0, 0) of "押し出し45"
properties part number "body back for main 2" material "ABS プラスチック"
